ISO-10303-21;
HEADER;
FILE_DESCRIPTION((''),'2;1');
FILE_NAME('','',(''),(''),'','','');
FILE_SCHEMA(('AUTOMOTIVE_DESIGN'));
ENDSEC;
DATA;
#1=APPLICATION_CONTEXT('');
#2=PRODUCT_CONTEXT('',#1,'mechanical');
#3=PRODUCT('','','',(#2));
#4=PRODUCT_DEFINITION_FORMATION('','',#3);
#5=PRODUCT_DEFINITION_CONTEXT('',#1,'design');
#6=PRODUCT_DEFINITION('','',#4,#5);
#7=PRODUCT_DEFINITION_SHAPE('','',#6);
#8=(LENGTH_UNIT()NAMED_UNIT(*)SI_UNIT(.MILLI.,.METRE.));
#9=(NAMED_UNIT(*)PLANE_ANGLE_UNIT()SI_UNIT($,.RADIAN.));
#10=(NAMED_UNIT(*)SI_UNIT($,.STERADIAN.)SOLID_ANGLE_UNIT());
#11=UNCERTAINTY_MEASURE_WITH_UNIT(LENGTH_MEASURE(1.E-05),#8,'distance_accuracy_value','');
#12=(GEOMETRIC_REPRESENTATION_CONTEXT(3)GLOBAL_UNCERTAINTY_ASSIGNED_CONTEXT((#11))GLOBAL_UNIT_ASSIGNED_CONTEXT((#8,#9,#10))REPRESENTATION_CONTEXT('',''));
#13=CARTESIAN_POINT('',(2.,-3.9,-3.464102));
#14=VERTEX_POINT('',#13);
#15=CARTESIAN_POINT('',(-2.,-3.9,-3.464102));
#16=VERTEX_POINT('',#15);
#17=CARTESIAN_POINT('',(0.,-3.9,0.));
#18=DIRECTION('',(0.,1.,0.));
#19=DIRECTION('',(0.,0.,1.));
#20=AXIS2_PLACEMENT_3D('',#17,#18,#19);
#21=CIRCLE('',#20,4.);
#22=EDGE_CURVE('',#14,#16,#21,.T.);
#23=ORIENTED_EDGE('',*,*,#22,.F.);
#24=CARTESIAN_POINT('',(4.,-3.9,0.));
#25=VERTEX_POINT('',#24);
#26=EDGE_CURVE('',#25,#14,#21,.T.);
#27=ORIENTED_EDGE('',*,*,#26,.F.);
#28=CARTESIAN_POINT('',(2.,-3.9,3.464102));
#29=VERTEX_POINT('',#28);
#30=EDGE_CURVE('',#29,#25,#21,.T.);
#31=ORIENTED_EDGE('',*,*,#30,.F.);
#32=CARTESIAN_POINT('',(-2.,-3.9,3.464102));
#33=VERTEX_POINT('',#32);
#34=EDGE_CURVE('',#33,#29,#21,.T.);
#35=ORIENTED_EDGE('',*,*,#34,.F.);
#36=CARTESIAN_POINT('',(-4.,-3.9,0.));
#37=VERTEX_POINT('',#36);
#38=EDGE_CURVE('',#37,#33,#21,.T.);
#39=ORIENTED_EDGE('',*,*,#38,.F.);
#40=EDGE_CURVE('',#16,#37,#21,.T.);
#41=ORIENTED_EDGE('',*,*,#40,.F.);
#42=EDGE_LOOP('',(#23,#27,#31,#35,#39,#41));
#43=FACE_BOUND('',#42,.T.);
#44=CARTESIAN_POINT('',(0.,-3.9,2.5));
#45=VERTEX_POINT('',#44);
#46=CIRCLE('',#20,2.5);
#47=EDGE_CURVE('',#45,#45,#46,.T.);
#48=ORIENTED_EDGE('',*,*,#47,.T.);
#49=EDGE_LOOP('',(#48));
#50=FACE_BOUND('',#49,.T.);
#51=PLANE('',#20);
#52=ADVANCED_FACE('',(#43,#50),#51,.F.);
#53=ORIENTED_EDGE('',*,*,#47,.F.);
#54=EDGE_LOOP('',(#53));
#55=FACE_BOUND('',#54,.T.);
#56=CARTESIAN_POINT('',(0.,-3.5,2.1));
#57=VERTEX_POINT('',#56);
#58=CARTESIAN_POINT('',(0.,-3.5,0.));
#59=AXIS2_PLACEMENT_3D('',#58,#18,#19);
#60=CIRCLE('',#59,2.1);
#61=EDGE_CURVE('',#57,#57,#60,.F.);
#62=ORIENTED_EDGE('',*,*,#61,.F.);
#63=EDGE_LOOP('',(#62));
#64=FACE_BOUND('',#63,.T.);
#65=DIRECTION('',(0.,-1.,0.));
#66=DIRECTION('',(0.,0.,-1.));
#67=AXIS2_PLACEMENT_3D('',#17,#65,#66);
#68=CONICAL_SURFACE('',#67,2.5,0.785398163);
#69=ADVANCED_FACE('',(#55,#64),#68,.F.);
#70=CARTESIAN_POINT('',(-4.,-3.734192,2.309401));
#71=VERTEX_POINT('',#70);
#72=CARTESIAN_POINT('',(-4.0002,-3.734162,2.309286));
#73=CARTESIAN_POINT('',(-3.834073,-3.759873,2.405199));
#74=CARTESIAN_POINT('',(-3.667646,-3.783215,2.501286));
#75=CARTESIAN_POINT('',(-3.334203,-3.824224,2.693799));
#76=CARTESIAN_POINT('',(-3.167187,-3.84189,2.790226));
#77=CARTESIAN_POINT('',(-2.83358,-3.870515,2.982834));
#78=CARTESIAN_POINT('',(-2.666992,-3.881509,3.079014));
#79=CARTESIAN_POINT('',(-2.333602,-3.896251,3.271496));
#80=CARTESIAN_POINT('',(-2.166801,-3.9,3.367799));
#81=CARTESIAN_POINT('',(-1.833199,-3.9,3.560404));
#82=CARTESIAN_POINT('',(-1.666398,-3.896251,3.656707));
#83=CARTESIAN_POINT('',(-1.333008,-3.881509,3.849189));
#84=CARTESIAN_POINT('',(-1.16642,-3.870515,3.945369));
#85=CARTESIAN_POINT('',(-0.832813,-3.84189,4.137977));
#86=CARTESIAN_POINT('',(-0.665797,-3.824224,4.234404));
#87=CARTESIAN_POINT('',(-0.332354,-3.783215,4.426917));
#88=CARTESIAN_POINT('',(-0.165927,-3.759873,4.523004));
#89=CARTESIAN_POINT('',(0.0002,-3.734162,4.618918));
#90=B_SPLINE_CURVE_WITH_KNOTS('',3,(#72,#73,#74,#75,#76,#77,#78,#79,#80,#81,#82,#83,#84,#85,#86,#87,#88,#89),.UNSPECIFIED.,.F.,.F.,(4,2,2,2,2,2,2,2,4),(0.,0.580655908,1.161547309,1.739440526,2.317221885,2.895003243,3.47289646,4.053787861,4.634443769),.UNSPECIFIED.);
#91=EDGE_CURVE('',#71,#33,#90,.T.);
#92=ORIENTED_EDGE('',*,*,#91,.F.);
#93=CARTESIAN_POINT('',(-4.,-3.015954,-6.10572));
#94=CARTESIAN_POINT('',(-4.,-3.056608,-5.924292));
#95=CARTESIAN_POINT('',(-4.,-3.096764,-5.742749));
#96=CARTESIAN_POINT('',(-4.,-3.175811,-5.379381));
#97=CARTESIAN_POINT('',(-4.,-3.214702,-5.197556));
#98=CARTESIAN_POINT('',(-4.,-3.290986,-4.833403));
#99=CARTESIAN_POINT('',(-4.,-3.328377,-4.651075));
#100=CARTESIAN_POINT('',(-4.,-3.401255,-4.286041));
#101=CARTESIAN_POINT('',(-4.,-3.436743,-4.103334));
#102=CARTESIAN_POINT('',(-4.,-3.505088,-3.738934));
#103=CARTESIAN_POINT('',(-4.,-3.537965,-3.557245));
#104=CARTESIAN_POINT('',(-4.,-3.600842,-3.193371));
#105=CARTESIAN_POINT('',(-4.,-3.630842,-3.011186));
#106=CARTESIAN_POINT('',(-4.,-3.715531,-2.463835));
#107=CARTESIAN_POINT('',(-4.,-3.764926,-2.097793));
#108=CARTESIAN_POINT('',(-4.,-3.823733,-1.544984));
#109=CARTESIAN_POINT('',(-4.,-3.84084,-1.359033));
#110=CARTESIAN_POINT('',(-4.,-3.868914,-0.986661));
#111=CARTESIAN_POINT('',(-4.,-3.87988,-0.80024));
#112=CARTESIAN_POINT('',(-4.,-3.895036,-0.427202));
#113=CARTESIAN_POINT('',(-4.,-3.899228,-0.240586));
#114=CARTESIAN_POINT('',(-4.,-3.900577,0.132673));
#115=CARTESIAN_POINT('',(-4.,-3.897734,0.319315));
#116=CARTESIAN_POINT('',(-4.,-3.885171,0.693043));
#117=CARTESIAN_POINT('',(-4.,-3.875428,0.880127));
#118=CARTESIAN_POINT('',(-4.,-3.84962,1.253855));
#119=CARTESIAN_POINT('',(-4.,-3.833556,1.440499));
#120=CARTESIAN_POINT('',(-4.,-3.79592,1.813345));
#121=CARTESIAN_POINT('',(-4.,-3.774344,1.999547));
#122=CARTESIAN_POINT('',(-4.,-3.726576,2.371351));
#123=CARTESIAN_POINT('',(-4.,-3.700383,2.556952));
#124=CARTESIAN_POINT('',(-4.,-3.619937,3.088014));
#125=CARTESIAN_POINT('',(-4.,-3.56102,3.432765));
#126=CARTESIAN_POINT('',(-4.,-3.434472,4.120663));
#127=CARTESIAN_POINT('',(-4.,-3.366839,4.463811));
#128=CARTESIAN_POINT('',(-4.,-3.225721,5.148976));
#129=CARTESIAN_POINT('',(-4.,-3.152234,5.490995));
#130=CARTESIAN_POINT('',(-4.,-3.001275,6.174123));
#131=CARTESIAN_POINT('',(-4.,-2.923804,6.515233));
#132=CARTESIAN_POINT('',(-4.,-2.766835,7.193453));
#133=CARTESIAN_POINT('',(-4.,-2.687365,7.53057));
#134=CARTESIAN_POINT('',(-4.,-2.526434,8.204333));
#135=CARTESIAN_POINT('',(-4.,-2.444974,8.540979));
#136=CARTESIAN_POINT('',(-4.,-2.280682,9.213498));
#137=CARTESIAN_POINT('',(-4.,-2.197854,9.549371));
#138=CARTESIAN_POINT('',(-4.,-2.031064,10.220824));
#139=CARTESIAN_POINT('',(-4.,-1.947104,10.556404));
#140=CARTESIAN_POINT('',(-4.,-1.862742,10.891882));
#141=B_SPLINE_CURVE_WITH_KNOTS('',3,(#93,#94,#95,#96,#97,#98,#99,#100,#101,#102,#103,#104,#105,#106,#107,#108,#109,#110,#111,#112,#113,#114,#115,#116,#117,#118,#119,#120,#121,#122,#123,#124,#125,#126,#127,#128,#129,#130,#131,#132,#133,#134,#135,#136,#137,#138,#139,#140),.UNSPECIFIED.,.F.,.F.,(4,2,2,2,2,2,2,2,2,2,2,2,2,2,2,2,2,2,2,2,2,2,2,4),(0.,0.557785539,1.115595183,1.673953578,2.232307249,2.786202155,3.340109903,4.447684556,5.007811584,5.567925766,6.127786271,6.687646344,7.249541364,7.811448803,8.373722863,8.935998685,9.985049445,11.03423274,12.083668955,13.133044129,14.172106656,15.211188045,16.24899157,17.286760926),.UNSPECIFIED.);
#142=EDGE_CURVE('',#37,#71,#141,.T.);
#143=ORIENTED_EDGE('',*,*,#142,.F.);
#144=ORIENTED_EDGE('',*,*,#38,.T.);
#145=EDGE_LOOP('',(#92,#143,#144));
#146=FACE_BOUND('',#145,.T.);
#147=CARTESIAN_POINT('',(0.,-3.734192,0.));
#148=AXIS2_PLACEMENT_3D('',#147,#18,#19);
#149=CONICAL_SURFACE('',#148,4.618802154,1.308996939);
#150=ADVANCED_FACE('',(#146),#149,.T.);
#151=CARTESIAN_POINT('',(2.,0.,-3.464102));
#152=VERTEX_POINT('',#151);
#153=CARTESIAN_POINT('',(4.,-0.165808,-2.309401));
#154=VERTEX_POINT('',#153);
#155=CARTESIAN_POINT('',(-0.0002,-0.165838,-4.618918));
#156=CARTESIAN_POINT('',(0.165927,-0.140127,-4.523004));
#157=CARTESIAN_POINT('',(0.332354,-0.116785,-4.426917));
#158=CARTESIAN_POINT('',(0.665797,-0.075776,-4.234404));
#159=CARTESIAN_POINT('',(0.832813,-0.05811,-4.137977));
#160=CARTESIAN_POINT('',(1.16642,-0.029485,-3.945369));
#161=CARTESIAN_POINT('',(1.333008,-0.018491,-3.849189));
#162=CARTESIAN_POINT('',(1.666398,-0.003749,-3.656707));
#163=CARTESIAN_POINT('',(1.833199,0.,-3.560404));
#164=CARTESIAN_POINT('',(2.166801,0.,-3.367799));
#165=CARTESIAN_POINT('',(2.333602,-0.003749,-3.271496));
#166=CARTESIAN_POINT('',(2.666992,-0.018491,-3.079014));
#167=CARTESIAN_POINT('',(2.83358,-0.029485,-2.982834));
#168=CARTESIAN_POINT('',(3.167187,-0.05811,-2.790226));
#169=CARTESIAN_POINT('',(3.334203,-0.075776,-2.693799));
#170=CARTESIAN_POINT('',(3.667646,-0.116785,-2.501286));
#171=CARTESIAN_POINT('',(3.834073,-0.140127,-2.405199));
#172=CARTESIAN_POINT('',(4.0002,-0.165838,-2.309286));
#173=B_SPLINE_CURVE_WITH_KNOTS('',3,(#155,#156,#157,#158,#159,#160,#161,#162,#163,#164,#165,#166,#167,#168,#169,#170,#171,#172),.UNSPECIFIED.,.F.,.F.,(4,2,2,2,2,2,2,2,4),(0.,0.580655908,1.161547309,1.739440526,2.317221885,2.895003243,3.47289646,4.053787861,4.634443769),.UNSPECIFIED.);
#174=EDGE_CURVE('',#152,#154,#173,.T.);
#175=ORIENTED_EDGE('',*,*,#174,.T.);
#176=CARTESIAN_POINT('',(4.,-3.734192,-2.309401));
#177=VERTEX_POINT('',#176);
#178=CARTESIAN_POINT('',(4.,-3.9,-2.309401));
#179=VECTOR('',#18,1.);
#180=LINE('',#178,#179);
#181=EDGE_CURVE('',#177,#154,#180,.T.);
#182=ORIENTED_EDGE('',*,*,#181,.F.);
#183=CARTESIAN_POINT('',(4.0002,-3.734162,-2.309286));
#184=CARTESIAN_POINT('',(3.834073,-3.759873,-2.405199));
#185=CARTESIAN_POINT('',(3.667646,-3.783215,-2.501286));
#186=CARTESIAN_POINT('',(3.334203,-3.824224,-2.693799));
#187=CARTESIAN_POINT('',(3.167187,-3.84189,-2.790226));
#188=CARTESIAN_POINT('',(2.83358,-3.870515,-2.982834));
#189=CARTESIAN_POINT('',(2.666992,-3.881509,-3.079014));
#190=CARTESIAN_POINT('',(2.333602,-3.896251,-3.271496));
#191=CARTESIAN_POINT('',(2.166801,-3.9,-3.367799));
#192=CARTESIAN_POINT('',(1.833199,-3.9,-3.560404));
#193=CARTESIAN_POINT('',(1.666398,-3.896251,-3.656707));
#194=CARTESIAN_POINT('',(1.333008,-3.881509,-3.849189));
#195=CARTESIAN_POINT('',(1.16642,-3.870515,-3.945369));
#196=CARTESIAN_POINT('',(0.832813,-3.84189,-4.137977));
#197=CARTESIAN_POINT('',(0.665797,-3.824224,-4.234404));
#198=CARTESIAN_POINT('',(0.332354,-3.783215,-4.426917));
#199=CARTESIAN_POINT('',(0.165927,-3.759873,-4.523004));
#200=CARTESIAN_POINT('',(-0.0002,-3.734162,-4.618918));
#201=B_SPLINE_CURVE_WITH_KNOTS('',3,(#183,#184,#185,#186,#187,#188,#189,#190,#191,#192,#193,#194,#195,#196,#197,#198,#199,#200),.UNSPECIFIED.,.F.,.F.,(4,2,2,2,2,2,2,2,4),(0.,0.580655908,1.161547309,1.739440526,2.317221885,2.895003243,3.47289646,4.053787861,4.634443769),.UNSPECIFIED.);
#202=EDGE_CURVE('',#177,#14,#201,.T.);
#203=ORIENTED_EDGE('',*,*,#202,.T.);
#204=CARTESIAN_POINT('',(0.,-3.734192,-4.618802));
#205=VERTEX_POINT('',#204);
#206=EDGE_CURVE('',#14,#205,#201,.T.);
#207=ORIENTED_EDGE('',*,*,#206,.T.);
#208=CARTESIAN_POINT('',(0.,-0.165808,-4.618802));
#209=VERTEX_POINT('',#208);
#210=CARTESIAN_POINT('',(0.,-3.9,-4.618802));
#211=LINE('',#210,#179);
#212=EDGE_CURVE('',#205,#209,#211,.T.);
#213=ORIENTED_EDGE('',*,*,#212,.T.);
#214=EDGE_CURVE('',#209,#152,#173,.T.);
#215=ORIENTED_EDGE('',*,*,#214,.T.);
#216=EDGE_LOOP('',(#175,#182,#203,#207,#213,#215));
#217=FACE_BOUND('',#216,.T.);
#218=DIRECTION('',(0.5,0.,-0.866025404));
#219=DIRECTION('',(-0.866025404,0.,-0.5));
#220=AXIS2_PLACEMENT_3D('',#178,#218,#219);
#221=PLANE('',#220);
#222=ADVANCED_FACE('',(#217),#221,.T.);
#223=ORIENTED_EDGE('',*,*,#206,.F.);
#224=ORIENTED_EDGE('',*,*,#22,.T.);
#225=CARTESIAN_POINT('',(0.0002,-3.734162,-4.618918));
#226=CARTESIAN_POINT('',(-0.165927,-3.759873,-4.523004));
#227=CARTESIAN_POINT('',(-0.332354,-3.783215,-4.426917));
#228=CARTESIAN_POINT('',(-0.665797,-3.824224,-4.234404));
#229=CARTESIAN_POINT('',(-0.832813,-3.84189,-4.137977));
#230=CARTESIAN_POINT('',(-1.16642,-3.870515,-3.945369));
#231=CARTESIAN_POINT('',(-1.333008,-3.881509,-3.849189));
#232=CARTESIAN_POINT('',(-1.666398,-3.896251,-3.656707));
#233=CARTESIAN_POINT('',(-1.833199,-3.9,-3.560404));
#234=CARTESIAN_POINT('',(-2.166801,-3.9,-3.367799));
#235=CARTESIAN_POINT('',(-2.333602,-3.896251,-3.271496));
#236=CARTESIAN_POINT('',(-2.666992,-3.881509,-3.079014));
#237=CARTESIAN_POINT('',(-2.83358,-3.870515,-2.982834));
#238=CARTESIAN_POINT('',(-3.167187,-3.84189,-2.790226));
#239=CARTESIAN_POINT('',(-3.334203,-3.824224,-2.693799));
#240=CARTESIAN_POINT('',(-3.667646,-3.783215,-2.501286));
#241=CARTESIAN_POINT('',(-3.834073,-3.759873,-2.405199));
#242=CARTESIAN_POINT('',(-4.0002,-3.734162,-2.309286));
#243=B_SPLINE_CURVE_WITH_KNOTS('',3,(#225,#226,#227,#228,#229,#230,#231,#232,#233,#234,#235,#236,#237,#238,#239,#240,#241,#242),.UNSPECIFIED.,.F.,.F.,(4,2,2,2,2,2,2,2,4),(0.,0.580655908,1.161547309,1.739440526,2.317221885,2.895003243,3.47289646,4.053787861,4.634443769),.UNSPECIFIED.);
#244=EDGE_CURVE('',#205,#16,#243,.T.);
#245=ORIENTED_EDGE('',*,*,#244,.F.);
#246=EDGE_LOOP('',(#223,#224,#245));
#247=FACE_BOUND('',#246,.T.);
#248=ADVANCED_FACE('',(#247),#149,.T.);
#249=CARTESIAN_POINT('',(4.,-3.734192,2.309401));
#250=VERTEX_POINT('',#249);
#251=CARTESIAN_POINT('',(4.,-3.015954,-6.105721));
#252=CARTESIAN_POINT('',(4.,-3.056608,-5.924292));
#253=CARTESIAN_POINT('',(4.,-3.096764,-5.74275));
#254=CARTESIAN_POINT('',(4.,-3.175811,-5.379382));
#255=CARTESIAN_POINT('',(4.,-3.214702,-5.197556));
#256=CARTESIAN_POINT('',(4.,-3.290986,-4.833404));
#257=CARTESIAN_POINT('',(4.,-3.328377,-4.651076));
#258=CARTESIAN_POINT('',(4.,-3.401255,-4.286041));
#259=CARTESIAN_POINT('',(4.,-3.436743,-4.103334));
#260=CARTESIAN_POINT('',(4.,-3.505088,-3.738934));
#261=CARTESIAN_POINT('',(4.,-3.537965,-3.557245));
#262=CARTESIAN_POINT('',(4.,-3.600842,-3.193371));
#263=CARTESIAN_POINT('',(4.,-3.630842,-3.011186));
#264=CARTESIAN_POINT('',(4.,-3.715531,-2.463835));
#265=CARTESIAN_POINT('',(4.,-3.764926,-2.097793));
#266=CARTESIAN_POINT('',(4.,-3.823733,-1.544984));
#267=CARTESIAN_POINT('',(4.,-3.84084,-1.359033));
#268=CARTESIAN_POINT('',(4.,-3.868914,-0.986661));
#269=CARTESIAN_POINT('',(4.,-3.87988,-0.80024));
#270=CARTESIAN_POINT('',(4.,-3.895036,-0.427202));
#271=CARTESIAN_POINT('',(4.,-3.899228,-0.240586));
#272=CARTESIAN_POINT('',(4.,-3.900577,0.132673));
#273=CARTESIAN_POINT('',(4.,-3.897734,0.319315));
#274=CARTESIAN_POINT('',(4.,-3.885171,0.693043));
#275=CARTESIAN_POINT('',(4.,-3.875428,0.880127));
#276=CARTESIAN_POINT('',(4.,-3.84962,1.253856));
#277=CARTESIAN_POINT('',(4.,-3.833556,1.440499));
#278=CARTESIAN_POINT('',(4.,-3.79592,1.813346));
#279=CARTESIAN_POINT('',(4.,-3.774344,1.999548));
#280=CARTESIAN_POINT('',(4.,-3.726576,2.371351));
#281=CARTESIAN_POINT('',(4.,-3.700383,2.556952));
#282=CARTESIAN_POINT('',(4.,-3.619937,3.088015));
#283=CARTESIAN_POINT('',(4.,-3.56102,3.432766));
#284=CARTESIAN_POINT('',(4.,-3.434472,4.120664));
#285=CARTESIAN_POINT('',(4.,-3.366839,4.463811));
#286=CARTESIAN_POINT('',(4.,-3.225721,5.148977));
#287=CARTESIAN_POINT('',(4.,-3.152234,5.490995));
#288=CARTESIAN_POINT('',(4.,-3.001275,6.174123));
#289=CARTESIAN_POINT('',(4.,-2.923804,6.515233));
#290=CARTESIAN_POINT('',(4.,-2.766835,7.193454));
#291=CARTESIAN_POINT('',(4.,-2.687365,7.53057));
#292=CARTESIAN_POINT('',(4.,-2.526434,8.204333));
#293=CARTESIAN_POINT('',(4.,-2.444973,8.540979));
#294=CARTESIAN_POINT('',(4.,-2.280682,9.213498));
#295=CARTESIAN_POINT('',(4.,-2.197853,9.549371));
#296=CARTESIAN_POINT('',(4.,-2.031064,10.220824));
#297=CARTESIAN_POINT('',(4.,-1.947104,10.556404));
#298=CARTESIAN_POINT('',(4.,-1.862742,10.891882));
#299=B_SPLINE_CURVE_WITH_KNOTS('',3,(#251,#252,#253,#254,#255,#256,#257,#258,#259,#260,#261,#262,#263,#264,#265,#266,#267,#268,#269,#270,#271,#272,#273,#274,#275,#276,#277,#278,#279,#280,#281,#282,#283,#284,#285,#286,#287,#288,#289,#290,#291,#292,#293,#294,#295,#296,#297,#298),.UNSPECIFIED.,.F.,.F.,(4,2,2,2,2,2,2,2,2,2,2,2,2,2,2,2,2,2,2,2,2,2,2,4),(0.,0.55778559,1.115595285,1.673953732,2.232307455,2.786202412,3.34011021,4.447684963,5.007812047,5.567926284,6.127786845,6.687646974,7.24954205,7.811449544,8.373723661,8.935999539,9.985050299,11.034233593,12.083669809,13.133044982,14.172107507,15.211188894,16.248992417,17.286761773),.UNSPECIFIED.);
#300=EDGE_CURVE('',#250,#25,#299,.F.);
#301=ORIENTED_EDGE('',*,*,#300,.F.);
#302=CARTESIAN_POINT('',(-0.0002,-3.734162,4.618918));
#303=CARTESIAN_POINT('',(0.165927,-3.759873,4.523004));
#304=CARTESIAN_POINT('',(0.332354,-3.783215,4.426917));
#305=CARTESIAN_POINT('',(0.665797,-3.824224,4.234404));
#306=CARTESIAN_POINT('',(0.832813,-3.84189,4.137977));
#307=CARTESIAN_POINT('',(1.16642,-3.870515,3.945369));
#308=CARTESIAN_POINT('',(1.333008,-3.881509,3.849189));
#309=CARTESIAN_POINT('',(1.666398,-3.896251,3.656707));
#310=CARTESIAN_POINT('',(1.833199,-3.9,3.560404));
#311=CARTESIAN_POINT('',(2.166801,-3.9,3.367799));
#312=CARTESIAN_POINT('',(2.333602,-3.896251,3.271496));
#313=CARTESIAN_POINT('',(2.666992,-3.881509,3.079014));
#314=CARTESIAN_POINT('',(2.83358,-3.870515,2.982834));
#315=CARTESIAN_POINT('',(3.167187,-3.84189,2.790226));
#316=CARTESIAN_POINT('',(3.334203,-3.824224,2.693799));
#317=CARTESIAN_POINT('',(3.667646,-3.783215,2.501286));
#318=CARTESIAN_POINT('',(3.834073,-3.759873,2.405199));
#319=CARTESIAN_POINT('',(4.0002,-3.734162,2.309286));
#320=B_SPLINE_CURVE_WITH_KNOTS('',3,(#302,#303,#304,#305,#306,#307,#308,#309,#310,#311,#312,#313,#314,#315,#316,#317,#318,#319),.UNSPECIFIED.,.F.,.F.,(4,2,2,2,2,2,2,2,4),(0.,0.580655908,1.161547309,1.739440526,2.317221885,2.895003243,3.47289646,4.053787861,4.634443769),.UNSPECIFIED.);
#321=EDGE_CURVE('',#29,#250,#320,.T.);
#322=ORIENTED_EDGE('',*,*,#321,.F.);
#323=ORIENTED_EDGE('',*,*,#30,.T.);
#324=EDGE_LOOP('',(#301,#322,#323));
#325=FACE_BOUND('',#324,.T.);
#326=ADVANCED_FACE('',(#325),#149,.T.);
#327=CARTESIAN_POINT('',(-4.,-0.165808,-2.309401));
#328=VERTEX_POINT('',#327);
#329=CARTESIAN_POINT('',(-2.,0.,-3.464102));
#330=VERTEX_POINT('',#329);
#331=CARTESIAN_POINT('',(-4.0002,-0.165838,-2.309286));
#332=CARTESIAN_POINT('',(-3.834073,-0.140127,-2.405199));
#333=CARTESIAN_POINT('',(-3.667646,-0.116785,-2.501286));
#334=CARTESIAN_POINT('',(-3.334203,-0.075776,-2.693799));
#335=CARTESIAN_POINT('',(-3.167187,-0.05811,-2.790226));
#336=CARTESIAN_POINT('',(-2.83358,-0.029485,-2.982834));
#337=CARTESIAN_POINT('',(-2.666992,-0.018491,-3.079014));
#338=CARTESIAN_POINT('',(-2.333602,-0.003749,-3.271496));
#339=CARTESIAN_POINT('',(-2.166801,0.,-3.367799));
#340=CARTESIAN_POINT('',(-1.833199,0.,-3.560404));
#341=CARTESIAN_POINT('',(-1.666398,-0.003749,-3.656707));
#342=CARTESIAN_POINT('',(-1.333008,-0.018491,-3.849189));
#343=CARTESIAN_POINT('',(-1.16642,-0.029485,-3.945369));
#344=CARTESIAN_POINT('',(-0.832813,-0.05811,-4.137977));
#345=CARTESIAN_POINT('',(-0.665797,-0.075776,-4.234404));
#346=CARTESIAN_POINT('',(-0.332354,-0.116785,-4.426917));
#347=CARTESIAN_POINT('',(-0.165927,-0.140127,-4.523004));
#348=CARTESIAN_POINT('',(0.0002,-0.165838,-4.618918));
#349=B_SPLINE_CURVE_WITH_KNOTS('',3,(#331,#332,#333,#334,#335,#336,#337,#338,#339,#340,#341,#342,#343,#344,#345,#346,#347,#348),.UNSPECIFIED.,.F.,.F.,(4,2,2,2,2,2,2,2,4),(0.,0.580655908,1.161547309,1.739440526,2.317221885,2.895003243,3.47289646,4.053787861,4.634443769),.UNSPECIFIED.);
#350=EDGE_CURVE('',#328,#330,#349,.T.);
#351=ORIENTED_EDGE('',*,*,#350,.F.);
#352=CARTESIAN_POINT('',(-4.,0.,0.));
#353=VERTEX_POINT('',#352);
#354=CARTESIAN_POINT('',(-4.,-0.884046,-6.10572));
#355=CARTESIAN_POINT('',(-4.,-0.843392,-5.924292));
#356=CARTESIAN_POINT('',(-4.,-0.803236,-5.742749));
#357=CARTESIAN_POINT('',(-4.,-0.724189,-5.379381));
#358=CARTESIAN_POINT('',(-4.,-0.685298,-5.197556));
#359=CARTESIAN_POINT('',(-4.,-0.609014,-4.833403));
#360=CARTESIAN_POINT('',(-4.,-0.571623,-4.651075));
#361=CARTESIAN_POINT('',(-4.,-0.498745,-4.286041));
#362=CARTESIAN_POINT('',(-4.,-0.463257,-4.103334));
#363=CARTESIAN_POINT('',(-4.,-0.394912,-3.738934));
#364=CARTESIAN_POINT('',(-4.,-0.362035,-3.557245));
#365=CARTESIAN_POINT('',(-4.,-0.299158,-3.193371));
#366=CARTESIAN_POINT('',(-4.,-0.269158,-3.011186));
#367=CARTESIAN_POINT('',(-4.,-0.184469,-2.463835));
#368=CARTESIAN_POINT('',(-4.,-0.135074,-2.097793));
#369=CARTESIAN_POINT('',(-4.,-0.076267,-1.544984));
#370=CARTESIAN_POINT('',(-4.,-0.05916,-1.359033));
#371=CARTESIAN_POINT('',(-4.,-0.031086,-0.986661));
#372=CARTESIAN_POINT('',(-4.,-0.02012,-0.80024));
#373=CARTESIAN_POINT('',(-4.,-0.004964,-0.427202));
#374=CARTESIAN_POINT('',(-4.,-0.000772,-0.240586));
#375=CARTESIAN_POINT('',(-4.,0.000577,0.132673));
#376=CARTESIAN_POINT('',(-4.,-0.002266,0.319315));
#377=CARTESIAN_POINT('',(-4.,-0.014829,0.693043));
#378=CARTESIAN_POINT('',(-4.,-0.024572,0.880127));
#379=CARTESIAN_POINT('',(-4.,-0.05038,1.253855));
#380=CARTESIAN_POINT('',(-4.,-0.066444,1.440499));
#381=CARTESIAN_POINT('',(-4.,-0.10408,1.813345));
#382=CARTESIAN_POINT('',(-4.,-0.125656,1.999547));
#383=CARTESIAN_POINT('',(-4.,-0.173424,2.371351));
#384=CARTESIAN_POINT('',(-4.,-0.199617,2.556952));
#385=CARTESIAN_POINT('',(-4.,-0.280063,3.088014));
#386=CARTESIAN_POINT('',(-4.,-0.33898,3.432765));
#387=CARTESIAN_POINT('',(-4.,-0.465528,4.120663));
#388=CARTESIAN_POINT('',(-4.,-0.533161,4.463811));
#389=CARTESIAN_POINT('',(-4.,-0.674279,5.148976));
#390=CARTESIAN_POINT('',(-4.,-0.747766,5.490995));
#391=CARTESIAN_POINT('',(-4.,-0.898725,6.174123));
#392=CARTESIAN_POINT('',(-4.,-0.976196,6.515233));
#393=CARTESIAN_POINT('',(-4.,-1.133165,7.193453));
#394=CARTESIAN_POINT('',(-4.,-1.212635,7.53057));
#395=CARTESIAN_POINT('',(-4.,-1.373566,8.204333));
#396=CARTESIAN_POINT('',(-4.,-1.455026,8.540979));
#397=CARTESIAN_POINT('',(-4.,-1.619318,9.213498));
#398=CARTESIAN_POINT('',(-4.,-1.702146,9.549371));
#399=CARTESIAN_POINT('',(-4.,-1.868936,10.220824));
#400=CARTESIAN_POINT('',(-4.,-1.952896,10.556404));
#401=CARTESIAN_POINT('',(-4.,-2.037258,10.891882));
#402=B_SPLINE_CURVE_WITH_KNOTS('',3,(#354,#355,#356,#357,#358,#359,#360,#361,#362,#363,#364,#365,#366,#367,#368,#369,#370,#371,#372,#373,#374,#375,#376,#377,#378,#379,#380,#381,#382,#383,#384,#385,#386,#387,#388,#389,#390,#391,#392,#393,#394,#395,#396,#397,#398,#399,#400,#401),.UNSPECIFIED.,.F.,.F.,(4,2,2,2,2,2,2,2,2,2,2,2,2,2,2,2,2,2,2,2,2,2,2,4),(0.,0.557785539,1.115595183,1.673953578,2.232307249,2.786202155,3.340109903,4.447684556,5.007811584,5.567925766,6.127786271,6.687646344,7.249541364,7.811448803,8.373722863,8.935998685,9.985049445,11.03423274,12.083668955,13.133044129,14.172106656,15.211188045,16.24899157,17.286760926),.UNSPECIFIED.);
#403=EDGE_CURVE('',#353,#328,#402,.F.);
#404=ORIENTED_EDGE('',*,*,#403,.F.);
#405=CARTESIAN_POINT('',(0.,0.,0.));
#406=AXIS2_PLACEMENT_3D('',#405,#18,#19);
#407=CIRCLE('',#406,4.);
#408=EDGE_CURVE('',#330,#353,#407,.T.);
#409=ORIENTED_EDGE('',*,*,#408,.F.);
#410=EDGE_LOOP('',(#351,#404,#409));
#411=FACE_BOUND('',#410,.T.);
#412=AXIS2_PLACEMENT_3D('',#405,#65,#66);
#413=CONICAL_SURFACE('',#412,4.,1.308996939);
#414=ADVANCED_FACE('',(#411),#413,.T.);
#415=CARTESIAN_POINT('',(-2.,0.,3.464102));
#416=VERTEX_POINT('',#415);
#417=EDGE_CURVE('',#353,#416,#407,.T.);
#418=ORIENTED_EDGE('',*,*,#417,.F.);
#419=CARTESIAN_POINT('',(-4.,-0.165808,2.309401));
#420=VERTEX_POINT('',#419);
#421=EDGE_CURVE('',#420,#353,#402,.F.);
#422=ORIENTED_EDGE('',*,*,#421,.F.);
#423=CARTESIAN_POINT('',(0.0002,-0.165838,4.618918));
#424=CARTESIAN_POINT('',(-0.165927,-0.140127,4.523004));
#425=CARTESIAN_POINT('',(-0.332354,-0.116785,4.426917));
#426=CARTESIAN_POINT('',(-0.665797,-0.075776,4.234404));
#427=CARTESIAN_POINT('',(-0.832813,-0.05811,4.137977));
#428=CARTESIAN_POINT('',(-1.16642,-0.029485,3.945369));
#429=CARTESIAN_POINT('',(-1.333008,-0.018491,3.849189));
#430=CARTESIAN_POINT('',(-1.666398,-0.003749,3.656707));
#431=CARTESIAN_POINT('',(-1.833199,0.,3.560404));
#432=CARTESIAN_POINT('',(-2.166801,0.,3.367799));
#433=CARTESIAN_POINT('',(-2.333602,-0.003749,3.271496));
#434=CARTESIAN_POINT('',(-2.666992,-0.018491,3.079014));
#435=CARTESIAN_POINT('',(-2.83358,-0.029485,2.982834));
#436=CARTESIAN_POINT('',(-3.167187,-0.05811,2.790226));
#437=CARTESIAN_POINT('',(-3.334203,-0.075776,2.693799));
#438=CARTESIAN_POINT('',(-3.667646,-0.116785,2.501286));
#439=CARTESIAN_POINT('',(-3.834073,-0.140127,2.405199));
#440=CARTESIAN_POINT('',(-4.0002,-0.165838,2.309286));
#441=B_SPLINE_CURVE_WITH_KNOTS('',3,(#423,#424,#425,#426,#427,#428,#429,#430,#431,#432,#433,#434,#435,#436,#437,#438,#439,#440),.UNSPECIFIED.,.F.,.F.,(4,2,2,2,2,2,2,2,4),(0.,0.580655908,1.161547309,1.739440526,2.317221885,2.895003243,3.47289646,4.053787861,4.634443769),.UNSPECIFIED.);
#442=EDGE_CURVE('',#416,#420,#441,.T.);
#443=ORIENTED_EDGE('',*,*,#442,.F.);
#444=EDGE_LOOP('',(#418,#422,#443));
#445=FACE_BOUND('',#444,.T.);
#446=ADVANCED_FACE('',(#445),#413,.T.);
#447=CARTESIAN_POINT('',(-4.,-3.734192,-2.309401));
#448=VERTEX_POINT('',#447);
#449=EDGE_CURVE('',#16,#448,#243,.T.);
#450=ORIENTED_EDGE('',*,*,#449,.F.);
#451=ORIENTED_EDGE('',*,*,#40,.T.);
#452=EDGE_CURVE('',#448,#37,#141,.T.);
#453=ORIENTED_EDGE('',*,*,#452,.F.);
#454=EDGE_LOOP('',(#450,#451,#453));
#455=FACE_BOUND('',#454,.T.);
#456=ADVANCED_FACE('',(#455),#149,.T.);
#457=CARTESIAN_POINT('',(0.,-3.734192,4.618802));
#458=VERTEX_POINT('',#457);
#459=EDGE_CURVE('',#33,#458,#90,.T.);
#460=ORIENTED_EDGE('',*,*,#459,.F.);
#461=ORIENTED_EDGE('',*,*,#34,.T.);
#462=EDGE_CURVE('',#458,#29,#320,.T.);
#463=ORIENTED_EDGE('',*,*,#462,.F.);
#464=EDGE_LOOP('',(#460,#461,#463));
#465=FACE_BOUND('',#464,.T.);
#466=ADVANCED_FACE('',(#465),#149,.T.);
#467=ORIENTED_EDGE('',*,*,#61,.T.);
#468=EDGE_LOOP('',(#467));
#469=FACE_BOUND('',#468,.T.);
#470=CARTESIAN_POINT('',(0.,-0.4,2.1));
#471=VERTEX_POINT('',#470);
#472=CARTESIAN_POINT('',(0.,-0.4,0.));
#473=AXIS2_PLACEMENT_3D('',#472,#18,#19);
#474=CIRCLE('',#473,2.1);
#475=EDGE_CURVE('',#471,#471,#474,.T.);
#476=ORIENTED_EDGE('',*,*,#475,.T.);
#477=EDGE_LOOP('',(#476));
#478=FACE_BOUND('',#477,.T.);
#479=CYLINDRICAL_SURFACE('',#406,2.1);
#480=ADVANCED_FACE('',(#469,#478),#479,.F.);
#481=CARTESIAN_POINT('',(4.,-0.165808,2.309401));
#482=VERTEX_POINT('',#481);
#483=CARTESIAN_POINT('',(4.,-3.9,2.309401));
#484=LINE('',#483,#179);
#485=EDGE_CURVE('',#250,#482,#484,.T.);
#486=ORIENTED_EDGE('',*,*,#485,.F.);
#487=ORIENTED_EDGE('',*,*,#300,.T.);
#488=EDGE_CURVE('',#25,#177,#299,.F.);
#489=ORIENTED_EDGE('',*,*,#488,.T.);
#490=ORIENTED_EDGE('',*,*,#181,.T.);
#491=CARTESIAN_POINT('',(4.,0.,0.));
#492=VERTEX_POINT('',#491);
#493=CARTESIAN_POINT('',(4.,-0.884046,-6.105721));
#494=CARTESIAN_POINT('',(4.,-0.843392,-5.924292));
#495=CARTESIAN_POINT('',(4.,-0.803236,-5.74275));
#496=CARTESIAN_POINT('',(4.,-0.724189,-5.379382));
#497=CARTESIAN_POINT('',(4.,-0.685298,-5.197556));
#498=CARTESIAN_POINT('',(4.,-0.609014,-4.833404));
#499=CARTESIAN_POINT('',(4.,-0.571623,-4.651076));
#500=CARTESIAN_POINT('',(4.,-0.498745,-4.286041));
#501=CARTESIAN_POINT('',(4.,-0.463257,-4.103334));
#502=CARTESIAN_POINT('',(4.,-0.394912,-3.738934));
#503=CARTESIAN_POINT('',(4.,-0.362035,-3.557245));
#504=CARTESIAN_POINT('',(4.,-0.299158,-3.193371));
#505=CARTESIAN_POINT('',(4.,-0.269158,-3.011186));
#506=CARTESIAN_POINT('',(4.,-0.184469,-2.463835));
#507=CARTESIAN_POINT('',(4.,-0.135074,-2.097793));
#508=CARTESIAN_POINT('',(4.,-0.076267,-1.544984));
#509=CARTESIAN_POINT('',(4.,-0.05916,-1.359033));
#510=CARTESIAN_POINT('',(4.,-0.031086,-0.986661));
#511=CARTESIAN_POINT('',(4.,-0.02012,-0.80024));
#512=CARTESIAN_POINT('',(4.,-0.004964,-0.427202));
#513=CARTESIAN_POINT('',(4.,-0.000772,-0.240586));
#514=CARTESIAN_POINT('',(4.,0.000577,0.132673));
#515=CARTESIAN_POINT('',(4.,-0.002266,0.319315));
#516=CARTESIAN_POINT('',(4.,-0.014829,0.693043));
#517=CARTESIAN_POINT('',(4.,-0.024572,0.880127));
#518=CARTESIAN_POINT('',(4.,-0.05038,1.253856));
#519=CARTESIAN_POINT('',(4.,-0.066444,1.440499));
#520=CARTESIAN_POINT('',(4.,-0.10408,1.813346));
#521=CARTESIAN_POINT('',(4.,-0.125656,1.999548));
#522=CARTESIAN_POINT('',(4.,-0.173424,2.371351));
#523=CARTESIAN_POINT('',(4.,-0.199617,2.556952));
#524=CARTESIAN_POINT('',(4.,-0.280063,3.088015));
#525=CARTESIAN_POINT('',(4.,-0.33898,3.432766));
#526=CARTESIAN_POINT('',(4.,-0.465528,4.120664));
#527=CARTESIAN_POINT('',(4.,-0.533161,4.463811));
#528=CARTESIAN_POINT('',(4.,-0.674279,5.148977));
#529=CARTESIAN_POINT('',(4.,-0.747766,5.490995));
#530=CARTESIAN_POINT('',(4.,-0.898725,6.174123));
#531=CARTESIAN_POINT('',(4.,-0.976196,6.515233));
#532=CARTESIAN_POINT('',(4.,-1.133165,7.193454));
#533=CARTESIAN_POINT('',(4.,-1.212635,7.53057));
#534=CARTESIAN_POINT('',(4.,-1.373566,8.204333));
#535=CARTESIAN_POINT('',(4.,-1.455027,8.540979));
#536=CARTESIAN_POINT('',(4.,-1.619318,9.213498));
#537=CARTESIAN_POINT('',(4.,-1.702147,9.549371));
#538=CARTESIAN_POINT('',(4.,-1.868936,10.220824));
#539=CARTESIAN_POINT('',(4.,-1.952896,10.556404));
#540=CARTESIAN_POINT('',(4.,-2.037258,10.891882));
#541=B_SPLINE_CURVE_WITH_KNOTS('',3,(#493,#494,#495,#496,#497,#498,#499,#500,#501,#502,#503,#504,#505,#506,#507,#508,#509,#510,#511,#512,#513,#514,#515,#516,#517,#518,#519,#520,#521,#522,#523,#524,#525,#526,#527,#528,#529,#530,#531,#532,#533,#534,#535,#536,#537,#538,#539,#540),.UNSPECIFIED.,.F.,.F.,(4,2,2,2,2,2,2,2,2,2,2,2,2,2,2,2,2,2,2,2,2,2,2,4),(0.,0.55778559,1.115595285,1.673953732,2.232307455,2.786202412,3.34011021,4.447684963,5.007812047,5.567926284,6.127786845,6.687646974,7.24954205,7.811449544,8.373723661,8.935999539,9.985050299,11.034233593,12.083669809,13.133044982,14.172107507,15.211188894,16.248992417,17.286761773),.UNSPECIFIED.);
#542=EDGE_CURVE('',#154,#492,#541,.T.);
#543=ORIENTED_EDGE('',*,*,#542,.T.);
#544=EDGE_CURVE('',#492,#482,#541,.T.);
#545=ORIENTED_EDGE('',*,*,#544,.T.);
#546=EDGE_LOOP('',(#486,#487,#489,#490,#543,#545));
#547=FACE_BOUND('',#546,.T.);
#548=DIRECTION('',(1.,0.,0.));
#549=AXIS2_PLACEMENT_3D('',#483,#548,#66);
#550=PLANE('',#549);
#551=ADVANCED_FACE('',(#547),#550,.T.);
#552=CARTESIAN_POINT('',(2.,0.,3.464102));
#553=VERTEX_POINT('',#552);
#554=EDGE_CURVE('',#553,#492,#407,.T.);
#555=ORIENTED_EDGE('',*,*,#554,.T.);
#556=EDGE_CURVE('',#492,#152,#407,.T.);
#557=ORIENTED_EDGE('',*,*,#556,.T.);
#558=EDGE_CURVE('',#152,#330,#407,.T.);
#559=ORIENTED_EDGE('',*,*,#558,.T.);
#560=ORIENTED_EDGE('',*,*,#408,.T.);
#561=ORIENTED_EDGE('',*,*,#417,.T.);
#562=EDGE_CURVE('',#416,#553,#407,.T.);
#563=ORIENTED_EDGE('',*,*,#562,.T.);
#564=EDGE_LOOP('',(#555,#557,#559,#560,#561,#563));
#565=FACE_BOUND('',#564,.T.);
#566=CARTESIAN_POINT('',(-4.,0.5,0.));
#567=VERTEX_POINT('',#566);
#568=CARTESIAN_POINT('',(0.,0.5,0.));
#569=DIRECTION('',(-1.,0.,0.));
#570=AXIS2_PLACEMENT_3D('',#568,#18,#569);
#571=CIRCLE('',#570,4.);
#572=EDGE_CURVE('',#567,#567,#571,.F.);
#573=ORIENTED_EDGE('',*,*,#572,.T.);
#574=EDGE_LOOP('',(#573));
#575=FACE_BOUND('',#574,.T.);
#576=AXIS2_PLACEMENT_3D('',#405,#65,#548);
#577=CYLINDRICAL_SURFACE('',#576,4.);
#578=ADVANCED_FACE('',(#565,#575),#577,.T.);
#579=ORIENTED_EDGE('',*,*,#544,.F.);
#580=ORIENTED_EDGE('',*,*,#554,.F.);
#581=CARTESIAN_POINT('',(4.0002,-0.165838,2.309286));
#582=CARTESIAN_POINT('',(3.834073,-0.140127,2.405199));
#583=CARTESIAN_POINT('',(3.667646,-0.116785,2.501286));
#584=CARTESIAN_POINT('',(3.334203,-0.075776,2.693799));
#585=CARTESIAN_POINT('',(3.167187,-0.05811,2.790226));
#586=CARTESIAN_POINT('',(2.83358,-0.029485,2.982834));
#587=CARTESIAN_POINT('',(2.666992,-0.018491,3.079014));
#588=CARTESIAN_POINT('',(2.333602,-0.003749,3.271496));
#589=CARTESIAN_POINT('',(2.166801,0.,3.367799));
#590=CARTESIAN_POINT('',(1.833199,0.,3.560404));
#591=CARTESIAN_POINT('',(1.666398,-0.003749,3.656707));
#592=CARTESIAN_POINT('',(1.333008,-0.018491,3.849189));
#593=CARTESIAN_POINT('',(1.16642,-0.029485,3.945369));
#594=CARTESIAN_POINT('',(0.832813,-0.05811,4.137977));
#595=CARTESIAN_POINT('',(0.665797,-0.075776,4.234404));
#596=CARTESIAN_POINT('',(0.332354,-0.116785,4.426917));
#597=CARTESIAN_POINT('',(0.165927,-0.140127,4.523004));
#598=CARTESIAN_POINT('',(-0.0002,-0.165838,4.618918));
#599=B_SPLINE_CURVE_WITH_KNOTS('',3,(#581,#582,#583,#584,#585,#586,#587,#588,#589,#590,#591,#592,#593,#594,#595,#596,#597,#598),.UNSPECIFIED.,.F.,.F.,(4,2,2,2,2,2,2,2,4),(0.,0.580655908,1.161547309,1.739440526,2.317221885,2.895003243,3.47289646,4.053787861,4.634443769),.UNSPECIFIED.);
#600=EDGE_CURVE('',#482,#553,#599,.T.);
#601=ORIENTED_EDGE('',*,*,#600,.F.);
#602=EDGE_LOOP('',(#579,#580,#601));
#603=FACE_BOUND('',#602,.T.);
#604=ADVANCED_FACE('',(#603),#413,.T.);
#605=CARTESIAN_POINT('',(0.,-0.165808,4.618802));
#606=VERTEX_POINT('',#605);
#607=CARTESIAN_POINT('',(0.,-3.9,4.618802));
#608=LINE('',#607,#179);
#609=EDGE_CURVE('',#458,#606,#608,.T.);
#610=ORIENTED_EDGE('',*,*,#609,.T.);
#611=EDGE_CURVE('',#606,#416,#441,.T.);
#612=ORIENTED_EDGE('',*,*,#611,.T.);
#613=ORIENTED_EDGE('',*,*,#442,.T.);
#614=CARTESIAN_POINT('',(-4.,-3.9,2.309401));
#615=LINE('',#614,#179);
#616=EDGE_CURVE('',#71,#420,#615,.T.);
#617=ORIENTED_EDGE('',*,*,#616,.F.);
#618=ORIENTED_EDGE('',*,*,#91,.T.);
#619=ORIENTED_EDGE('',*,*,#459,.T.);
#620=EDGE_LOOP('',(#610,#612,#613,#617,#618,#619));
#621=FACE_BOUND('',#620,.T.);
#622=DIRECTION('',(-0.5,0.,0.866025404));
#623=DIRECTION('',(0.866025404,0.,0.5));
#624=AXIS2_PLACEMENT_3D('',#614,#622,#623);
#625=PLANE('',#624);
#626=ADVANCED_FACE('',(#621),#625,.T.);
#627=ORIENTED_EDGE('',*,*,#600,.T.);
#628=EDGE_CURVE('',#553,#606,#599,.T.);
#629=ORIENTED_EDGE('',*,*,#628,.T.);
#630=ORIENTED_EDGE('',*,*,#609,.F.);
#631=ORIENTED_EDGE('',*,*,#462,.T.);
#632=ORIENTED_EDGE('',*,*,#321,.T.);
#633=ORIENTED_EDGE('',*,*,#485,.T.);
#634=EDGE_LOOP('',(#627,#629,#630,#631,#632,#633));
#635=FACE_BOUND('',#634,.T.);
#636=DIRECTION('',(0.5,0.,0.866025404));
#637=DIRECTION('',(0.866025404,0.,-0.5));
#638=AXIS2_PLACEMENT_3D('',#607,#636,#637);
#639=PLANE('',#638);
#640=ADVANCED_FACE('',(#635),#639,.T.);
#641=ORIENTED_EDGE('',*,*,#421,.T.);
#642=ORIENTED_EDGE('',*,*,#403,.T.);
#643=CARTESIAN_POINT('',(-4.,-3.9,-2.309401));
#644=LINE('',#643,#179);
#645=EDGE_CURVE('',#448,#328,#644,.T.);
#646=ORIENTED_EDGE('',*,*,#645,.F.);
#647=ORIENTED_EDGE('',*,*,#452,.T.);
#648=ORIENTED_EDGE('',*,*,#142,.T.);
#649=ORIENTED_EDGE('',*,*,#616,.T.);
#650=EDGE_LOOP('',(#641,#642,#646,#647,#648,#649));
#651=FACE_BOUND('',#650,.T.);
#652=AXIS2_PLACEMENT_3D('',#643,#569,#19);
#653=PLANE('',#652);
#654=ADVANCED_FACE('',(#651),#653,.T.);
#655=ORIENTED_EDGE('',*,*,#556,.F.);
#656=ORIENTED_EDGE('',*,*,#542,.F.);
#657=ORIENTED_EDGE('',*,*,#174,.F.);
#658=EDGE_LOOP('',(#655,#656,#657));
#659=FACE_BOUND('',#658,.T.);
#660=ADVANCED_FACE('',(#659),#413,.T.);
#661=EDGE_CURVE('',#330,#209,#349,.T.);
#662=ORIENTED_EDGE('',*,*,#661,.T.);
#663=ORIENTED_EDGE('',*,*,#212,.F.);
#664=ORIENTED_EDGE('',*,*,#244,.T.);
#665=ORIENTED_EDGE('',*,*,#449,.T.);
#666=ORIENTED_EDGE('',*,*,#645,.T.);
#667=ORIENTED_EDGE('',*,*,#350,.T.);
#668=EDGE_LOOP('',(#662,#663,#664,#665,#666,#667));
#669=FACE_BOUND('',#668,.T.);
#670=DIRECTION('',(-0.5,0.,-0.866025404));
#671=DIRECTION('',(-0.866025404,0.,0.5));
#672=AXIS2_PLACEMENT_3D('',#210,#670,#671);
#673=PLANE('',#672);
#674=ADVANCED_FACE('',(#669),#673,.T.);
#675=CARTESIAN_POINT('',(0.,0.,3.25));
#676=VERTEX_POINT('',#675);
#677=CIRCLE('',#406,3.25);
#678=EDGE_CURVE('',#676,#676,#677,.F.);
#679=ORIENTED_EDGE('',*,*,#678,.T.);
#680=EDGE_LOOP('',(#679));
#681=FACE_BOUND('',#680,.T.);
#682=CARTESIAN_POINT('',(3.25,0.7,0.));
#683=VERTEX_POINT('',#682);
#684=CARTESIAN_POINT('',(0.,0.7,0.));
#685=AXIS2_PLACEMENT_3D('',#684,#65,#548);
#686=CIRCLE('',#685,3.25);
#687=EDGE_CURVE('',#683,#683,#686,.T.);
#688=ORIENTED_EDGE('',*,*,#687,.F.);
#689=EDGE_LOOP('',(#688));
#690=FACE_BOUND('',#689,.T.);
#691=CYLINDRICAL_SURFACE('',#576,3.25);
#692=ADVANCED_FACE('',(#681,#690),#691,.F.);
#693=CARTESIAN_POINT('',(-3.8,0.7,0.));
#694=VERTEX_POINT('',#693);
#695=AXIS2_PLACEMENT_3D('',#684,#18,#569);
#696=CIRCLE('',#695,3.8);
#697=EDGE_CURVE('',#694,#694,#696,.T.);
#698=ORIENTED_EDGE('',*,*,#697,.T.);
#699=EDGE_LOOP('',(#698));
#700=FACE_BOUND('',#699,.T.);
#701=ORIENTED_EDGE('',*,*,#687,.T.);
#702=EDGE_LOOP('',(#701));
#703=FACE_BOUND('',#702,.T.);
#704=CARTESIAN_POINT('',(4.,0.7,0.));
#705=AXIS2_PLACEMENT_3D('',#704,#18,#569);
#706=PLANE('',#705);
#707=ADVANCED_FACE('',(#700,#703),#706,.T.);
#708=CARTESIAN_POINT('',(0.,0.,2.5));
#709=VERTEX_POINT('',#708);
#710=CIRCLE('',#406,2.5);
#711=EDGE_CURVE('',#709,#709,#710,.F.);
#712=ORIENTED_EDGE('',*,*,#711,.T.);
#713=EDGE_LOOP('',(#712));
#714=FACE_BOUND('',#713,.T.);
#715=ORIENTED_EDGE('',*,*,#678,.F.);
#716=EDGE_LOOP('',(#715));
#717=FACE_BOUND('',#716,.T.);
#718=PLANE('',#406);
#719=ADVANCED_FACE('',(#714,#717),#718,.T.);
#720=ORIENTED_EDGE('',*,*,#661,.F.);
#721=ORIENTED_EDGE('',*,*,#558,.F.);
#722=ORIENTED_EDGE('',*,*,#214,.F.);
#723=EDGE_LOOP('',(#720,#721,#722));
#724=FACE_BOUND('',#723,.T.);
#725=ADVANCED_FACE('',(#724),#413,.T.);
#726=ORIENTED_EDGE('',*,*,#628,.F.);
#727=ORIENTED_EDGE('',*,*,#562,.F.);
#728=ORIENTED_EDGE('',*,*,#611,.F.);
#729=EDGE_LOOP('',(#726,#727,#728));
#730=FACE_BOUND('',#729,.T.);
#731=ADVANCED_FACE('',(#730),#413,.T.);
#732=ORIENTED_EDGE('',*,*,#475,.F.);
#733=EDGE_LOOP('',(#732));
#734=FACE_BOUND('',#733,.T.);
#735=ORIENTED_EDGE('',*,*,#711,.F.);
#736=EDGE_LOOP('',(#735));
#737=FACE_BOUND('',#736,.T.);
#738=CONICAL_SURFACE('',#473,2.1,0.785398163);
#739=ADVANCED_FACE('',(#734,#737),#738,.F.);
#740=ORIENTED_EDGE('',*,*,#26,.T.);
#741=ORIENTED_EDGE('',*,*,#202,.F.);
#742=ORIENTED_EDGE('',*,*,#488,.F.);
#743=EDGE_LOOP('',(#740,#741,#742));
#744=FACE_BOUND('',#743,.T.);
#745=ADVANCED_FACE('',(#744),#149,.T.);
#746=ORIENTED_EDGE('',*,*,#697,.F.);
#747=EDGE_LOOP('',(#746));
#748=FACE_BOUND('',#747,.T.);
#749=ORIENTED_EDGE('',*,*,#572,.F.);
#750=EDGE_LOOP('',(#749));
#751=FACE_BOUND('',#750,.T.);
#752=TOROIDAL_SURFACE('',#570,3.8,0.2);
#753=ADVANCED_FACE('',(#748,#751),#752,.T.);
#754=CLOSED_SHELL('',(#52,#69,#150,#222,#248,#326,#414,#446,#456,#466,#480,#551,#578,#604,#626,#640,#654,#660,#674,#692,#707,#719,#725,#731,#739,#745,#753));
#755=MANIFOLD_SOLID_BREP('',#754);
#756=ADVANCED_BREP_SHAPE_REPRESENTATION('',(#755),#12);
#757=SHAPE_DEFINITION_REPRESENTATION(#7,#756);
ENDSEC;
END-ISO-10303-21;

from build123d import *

# Parameters (mm, degrees)
BOSS_EXTRUDE1_DEPTH = 3.9
TAPPED_HOLE1_D      = 4.2
CHAMFER1_SIZE       = 0.4
SKETCH5_W           = 0.75
SKETCH5_H           = 0.7
FILLET1_R           = 0.2


with BuildPart() as part:
    # Sketch1 → Boss-Extrude1 (new body)
    with BuildSketch(Plane(origin=(0, 0, 0), x_dir=(1, 0, 0), z_dir=(0, 1, 0))):
        Polygon((0, 4.618802154), (-4, 2.309401077), (-4, -2.309401077), (0, -4.618802154), (4, -2.309401077), (4, 2.309401077), align=None)
    extrude(amount=-BOSS_EXTRUDE1_DEPTH)

    # Sketch2 → Cut-Revolve1 (revolve, cut)
    with BuildSketch(Plane(origin=(0, 0, 0), x_dir=(0, 0, -1), z_dir=(1, 0, 0))):
        Polygon((4, 0), (4.618802154, 0), (4.618802154, -0.165807537), align=None)
        Polygon((4.618802154, -3.734192463), (4, -3.9), (4.618802154, -3.9), align=None)
    revolve(axis=Axis((0, 0, 0), (0, -1, 0)), mode=Mode.SUBTRACT)

    # Tapped Hole1 (through all)
    with Locations(Plane(origin=(0, 0, 0), x_dir=(1, 0, 0), z_dir=(0, 1, 0))):
        with Locations((0, 0)):
            Hole(TAPPED_HOLE1_D / 2)

    # Chamfer1
    chamfer1_edges = [part.edges().sort_by_distance(p)[0] for p in [
        (2.1, 0, 0),
        (2.1, -3.9, 0),
    ]]
    chamfer(chamfer1_edges, length=CHAMFER1_SIZE)

    # Sketch5 → Revolve1 (revolve)
    with BuildSketch(Plane.XY, mode=Mode.PRIVATE) as revolve1_sk:
        with Locations((3.625, 0.35)):
            Rectangle(SKETCH5_W, SKETCH5_H)
    revolve(revolve1_sk.sketch.rotate(Axis((0, 0, 0), (0, 1, 0)), 270), axis=Axis((0, 0, 0), (0, 1, 0)))

    # Fillet1
    fillet1_edges = [part.edges().sort_by_distance(p)[0] for p in [
        (0, 0.7, -4),
    ]]
    fillet(fillet1_edges, radius=FILLET1_R)


solid = part.part
